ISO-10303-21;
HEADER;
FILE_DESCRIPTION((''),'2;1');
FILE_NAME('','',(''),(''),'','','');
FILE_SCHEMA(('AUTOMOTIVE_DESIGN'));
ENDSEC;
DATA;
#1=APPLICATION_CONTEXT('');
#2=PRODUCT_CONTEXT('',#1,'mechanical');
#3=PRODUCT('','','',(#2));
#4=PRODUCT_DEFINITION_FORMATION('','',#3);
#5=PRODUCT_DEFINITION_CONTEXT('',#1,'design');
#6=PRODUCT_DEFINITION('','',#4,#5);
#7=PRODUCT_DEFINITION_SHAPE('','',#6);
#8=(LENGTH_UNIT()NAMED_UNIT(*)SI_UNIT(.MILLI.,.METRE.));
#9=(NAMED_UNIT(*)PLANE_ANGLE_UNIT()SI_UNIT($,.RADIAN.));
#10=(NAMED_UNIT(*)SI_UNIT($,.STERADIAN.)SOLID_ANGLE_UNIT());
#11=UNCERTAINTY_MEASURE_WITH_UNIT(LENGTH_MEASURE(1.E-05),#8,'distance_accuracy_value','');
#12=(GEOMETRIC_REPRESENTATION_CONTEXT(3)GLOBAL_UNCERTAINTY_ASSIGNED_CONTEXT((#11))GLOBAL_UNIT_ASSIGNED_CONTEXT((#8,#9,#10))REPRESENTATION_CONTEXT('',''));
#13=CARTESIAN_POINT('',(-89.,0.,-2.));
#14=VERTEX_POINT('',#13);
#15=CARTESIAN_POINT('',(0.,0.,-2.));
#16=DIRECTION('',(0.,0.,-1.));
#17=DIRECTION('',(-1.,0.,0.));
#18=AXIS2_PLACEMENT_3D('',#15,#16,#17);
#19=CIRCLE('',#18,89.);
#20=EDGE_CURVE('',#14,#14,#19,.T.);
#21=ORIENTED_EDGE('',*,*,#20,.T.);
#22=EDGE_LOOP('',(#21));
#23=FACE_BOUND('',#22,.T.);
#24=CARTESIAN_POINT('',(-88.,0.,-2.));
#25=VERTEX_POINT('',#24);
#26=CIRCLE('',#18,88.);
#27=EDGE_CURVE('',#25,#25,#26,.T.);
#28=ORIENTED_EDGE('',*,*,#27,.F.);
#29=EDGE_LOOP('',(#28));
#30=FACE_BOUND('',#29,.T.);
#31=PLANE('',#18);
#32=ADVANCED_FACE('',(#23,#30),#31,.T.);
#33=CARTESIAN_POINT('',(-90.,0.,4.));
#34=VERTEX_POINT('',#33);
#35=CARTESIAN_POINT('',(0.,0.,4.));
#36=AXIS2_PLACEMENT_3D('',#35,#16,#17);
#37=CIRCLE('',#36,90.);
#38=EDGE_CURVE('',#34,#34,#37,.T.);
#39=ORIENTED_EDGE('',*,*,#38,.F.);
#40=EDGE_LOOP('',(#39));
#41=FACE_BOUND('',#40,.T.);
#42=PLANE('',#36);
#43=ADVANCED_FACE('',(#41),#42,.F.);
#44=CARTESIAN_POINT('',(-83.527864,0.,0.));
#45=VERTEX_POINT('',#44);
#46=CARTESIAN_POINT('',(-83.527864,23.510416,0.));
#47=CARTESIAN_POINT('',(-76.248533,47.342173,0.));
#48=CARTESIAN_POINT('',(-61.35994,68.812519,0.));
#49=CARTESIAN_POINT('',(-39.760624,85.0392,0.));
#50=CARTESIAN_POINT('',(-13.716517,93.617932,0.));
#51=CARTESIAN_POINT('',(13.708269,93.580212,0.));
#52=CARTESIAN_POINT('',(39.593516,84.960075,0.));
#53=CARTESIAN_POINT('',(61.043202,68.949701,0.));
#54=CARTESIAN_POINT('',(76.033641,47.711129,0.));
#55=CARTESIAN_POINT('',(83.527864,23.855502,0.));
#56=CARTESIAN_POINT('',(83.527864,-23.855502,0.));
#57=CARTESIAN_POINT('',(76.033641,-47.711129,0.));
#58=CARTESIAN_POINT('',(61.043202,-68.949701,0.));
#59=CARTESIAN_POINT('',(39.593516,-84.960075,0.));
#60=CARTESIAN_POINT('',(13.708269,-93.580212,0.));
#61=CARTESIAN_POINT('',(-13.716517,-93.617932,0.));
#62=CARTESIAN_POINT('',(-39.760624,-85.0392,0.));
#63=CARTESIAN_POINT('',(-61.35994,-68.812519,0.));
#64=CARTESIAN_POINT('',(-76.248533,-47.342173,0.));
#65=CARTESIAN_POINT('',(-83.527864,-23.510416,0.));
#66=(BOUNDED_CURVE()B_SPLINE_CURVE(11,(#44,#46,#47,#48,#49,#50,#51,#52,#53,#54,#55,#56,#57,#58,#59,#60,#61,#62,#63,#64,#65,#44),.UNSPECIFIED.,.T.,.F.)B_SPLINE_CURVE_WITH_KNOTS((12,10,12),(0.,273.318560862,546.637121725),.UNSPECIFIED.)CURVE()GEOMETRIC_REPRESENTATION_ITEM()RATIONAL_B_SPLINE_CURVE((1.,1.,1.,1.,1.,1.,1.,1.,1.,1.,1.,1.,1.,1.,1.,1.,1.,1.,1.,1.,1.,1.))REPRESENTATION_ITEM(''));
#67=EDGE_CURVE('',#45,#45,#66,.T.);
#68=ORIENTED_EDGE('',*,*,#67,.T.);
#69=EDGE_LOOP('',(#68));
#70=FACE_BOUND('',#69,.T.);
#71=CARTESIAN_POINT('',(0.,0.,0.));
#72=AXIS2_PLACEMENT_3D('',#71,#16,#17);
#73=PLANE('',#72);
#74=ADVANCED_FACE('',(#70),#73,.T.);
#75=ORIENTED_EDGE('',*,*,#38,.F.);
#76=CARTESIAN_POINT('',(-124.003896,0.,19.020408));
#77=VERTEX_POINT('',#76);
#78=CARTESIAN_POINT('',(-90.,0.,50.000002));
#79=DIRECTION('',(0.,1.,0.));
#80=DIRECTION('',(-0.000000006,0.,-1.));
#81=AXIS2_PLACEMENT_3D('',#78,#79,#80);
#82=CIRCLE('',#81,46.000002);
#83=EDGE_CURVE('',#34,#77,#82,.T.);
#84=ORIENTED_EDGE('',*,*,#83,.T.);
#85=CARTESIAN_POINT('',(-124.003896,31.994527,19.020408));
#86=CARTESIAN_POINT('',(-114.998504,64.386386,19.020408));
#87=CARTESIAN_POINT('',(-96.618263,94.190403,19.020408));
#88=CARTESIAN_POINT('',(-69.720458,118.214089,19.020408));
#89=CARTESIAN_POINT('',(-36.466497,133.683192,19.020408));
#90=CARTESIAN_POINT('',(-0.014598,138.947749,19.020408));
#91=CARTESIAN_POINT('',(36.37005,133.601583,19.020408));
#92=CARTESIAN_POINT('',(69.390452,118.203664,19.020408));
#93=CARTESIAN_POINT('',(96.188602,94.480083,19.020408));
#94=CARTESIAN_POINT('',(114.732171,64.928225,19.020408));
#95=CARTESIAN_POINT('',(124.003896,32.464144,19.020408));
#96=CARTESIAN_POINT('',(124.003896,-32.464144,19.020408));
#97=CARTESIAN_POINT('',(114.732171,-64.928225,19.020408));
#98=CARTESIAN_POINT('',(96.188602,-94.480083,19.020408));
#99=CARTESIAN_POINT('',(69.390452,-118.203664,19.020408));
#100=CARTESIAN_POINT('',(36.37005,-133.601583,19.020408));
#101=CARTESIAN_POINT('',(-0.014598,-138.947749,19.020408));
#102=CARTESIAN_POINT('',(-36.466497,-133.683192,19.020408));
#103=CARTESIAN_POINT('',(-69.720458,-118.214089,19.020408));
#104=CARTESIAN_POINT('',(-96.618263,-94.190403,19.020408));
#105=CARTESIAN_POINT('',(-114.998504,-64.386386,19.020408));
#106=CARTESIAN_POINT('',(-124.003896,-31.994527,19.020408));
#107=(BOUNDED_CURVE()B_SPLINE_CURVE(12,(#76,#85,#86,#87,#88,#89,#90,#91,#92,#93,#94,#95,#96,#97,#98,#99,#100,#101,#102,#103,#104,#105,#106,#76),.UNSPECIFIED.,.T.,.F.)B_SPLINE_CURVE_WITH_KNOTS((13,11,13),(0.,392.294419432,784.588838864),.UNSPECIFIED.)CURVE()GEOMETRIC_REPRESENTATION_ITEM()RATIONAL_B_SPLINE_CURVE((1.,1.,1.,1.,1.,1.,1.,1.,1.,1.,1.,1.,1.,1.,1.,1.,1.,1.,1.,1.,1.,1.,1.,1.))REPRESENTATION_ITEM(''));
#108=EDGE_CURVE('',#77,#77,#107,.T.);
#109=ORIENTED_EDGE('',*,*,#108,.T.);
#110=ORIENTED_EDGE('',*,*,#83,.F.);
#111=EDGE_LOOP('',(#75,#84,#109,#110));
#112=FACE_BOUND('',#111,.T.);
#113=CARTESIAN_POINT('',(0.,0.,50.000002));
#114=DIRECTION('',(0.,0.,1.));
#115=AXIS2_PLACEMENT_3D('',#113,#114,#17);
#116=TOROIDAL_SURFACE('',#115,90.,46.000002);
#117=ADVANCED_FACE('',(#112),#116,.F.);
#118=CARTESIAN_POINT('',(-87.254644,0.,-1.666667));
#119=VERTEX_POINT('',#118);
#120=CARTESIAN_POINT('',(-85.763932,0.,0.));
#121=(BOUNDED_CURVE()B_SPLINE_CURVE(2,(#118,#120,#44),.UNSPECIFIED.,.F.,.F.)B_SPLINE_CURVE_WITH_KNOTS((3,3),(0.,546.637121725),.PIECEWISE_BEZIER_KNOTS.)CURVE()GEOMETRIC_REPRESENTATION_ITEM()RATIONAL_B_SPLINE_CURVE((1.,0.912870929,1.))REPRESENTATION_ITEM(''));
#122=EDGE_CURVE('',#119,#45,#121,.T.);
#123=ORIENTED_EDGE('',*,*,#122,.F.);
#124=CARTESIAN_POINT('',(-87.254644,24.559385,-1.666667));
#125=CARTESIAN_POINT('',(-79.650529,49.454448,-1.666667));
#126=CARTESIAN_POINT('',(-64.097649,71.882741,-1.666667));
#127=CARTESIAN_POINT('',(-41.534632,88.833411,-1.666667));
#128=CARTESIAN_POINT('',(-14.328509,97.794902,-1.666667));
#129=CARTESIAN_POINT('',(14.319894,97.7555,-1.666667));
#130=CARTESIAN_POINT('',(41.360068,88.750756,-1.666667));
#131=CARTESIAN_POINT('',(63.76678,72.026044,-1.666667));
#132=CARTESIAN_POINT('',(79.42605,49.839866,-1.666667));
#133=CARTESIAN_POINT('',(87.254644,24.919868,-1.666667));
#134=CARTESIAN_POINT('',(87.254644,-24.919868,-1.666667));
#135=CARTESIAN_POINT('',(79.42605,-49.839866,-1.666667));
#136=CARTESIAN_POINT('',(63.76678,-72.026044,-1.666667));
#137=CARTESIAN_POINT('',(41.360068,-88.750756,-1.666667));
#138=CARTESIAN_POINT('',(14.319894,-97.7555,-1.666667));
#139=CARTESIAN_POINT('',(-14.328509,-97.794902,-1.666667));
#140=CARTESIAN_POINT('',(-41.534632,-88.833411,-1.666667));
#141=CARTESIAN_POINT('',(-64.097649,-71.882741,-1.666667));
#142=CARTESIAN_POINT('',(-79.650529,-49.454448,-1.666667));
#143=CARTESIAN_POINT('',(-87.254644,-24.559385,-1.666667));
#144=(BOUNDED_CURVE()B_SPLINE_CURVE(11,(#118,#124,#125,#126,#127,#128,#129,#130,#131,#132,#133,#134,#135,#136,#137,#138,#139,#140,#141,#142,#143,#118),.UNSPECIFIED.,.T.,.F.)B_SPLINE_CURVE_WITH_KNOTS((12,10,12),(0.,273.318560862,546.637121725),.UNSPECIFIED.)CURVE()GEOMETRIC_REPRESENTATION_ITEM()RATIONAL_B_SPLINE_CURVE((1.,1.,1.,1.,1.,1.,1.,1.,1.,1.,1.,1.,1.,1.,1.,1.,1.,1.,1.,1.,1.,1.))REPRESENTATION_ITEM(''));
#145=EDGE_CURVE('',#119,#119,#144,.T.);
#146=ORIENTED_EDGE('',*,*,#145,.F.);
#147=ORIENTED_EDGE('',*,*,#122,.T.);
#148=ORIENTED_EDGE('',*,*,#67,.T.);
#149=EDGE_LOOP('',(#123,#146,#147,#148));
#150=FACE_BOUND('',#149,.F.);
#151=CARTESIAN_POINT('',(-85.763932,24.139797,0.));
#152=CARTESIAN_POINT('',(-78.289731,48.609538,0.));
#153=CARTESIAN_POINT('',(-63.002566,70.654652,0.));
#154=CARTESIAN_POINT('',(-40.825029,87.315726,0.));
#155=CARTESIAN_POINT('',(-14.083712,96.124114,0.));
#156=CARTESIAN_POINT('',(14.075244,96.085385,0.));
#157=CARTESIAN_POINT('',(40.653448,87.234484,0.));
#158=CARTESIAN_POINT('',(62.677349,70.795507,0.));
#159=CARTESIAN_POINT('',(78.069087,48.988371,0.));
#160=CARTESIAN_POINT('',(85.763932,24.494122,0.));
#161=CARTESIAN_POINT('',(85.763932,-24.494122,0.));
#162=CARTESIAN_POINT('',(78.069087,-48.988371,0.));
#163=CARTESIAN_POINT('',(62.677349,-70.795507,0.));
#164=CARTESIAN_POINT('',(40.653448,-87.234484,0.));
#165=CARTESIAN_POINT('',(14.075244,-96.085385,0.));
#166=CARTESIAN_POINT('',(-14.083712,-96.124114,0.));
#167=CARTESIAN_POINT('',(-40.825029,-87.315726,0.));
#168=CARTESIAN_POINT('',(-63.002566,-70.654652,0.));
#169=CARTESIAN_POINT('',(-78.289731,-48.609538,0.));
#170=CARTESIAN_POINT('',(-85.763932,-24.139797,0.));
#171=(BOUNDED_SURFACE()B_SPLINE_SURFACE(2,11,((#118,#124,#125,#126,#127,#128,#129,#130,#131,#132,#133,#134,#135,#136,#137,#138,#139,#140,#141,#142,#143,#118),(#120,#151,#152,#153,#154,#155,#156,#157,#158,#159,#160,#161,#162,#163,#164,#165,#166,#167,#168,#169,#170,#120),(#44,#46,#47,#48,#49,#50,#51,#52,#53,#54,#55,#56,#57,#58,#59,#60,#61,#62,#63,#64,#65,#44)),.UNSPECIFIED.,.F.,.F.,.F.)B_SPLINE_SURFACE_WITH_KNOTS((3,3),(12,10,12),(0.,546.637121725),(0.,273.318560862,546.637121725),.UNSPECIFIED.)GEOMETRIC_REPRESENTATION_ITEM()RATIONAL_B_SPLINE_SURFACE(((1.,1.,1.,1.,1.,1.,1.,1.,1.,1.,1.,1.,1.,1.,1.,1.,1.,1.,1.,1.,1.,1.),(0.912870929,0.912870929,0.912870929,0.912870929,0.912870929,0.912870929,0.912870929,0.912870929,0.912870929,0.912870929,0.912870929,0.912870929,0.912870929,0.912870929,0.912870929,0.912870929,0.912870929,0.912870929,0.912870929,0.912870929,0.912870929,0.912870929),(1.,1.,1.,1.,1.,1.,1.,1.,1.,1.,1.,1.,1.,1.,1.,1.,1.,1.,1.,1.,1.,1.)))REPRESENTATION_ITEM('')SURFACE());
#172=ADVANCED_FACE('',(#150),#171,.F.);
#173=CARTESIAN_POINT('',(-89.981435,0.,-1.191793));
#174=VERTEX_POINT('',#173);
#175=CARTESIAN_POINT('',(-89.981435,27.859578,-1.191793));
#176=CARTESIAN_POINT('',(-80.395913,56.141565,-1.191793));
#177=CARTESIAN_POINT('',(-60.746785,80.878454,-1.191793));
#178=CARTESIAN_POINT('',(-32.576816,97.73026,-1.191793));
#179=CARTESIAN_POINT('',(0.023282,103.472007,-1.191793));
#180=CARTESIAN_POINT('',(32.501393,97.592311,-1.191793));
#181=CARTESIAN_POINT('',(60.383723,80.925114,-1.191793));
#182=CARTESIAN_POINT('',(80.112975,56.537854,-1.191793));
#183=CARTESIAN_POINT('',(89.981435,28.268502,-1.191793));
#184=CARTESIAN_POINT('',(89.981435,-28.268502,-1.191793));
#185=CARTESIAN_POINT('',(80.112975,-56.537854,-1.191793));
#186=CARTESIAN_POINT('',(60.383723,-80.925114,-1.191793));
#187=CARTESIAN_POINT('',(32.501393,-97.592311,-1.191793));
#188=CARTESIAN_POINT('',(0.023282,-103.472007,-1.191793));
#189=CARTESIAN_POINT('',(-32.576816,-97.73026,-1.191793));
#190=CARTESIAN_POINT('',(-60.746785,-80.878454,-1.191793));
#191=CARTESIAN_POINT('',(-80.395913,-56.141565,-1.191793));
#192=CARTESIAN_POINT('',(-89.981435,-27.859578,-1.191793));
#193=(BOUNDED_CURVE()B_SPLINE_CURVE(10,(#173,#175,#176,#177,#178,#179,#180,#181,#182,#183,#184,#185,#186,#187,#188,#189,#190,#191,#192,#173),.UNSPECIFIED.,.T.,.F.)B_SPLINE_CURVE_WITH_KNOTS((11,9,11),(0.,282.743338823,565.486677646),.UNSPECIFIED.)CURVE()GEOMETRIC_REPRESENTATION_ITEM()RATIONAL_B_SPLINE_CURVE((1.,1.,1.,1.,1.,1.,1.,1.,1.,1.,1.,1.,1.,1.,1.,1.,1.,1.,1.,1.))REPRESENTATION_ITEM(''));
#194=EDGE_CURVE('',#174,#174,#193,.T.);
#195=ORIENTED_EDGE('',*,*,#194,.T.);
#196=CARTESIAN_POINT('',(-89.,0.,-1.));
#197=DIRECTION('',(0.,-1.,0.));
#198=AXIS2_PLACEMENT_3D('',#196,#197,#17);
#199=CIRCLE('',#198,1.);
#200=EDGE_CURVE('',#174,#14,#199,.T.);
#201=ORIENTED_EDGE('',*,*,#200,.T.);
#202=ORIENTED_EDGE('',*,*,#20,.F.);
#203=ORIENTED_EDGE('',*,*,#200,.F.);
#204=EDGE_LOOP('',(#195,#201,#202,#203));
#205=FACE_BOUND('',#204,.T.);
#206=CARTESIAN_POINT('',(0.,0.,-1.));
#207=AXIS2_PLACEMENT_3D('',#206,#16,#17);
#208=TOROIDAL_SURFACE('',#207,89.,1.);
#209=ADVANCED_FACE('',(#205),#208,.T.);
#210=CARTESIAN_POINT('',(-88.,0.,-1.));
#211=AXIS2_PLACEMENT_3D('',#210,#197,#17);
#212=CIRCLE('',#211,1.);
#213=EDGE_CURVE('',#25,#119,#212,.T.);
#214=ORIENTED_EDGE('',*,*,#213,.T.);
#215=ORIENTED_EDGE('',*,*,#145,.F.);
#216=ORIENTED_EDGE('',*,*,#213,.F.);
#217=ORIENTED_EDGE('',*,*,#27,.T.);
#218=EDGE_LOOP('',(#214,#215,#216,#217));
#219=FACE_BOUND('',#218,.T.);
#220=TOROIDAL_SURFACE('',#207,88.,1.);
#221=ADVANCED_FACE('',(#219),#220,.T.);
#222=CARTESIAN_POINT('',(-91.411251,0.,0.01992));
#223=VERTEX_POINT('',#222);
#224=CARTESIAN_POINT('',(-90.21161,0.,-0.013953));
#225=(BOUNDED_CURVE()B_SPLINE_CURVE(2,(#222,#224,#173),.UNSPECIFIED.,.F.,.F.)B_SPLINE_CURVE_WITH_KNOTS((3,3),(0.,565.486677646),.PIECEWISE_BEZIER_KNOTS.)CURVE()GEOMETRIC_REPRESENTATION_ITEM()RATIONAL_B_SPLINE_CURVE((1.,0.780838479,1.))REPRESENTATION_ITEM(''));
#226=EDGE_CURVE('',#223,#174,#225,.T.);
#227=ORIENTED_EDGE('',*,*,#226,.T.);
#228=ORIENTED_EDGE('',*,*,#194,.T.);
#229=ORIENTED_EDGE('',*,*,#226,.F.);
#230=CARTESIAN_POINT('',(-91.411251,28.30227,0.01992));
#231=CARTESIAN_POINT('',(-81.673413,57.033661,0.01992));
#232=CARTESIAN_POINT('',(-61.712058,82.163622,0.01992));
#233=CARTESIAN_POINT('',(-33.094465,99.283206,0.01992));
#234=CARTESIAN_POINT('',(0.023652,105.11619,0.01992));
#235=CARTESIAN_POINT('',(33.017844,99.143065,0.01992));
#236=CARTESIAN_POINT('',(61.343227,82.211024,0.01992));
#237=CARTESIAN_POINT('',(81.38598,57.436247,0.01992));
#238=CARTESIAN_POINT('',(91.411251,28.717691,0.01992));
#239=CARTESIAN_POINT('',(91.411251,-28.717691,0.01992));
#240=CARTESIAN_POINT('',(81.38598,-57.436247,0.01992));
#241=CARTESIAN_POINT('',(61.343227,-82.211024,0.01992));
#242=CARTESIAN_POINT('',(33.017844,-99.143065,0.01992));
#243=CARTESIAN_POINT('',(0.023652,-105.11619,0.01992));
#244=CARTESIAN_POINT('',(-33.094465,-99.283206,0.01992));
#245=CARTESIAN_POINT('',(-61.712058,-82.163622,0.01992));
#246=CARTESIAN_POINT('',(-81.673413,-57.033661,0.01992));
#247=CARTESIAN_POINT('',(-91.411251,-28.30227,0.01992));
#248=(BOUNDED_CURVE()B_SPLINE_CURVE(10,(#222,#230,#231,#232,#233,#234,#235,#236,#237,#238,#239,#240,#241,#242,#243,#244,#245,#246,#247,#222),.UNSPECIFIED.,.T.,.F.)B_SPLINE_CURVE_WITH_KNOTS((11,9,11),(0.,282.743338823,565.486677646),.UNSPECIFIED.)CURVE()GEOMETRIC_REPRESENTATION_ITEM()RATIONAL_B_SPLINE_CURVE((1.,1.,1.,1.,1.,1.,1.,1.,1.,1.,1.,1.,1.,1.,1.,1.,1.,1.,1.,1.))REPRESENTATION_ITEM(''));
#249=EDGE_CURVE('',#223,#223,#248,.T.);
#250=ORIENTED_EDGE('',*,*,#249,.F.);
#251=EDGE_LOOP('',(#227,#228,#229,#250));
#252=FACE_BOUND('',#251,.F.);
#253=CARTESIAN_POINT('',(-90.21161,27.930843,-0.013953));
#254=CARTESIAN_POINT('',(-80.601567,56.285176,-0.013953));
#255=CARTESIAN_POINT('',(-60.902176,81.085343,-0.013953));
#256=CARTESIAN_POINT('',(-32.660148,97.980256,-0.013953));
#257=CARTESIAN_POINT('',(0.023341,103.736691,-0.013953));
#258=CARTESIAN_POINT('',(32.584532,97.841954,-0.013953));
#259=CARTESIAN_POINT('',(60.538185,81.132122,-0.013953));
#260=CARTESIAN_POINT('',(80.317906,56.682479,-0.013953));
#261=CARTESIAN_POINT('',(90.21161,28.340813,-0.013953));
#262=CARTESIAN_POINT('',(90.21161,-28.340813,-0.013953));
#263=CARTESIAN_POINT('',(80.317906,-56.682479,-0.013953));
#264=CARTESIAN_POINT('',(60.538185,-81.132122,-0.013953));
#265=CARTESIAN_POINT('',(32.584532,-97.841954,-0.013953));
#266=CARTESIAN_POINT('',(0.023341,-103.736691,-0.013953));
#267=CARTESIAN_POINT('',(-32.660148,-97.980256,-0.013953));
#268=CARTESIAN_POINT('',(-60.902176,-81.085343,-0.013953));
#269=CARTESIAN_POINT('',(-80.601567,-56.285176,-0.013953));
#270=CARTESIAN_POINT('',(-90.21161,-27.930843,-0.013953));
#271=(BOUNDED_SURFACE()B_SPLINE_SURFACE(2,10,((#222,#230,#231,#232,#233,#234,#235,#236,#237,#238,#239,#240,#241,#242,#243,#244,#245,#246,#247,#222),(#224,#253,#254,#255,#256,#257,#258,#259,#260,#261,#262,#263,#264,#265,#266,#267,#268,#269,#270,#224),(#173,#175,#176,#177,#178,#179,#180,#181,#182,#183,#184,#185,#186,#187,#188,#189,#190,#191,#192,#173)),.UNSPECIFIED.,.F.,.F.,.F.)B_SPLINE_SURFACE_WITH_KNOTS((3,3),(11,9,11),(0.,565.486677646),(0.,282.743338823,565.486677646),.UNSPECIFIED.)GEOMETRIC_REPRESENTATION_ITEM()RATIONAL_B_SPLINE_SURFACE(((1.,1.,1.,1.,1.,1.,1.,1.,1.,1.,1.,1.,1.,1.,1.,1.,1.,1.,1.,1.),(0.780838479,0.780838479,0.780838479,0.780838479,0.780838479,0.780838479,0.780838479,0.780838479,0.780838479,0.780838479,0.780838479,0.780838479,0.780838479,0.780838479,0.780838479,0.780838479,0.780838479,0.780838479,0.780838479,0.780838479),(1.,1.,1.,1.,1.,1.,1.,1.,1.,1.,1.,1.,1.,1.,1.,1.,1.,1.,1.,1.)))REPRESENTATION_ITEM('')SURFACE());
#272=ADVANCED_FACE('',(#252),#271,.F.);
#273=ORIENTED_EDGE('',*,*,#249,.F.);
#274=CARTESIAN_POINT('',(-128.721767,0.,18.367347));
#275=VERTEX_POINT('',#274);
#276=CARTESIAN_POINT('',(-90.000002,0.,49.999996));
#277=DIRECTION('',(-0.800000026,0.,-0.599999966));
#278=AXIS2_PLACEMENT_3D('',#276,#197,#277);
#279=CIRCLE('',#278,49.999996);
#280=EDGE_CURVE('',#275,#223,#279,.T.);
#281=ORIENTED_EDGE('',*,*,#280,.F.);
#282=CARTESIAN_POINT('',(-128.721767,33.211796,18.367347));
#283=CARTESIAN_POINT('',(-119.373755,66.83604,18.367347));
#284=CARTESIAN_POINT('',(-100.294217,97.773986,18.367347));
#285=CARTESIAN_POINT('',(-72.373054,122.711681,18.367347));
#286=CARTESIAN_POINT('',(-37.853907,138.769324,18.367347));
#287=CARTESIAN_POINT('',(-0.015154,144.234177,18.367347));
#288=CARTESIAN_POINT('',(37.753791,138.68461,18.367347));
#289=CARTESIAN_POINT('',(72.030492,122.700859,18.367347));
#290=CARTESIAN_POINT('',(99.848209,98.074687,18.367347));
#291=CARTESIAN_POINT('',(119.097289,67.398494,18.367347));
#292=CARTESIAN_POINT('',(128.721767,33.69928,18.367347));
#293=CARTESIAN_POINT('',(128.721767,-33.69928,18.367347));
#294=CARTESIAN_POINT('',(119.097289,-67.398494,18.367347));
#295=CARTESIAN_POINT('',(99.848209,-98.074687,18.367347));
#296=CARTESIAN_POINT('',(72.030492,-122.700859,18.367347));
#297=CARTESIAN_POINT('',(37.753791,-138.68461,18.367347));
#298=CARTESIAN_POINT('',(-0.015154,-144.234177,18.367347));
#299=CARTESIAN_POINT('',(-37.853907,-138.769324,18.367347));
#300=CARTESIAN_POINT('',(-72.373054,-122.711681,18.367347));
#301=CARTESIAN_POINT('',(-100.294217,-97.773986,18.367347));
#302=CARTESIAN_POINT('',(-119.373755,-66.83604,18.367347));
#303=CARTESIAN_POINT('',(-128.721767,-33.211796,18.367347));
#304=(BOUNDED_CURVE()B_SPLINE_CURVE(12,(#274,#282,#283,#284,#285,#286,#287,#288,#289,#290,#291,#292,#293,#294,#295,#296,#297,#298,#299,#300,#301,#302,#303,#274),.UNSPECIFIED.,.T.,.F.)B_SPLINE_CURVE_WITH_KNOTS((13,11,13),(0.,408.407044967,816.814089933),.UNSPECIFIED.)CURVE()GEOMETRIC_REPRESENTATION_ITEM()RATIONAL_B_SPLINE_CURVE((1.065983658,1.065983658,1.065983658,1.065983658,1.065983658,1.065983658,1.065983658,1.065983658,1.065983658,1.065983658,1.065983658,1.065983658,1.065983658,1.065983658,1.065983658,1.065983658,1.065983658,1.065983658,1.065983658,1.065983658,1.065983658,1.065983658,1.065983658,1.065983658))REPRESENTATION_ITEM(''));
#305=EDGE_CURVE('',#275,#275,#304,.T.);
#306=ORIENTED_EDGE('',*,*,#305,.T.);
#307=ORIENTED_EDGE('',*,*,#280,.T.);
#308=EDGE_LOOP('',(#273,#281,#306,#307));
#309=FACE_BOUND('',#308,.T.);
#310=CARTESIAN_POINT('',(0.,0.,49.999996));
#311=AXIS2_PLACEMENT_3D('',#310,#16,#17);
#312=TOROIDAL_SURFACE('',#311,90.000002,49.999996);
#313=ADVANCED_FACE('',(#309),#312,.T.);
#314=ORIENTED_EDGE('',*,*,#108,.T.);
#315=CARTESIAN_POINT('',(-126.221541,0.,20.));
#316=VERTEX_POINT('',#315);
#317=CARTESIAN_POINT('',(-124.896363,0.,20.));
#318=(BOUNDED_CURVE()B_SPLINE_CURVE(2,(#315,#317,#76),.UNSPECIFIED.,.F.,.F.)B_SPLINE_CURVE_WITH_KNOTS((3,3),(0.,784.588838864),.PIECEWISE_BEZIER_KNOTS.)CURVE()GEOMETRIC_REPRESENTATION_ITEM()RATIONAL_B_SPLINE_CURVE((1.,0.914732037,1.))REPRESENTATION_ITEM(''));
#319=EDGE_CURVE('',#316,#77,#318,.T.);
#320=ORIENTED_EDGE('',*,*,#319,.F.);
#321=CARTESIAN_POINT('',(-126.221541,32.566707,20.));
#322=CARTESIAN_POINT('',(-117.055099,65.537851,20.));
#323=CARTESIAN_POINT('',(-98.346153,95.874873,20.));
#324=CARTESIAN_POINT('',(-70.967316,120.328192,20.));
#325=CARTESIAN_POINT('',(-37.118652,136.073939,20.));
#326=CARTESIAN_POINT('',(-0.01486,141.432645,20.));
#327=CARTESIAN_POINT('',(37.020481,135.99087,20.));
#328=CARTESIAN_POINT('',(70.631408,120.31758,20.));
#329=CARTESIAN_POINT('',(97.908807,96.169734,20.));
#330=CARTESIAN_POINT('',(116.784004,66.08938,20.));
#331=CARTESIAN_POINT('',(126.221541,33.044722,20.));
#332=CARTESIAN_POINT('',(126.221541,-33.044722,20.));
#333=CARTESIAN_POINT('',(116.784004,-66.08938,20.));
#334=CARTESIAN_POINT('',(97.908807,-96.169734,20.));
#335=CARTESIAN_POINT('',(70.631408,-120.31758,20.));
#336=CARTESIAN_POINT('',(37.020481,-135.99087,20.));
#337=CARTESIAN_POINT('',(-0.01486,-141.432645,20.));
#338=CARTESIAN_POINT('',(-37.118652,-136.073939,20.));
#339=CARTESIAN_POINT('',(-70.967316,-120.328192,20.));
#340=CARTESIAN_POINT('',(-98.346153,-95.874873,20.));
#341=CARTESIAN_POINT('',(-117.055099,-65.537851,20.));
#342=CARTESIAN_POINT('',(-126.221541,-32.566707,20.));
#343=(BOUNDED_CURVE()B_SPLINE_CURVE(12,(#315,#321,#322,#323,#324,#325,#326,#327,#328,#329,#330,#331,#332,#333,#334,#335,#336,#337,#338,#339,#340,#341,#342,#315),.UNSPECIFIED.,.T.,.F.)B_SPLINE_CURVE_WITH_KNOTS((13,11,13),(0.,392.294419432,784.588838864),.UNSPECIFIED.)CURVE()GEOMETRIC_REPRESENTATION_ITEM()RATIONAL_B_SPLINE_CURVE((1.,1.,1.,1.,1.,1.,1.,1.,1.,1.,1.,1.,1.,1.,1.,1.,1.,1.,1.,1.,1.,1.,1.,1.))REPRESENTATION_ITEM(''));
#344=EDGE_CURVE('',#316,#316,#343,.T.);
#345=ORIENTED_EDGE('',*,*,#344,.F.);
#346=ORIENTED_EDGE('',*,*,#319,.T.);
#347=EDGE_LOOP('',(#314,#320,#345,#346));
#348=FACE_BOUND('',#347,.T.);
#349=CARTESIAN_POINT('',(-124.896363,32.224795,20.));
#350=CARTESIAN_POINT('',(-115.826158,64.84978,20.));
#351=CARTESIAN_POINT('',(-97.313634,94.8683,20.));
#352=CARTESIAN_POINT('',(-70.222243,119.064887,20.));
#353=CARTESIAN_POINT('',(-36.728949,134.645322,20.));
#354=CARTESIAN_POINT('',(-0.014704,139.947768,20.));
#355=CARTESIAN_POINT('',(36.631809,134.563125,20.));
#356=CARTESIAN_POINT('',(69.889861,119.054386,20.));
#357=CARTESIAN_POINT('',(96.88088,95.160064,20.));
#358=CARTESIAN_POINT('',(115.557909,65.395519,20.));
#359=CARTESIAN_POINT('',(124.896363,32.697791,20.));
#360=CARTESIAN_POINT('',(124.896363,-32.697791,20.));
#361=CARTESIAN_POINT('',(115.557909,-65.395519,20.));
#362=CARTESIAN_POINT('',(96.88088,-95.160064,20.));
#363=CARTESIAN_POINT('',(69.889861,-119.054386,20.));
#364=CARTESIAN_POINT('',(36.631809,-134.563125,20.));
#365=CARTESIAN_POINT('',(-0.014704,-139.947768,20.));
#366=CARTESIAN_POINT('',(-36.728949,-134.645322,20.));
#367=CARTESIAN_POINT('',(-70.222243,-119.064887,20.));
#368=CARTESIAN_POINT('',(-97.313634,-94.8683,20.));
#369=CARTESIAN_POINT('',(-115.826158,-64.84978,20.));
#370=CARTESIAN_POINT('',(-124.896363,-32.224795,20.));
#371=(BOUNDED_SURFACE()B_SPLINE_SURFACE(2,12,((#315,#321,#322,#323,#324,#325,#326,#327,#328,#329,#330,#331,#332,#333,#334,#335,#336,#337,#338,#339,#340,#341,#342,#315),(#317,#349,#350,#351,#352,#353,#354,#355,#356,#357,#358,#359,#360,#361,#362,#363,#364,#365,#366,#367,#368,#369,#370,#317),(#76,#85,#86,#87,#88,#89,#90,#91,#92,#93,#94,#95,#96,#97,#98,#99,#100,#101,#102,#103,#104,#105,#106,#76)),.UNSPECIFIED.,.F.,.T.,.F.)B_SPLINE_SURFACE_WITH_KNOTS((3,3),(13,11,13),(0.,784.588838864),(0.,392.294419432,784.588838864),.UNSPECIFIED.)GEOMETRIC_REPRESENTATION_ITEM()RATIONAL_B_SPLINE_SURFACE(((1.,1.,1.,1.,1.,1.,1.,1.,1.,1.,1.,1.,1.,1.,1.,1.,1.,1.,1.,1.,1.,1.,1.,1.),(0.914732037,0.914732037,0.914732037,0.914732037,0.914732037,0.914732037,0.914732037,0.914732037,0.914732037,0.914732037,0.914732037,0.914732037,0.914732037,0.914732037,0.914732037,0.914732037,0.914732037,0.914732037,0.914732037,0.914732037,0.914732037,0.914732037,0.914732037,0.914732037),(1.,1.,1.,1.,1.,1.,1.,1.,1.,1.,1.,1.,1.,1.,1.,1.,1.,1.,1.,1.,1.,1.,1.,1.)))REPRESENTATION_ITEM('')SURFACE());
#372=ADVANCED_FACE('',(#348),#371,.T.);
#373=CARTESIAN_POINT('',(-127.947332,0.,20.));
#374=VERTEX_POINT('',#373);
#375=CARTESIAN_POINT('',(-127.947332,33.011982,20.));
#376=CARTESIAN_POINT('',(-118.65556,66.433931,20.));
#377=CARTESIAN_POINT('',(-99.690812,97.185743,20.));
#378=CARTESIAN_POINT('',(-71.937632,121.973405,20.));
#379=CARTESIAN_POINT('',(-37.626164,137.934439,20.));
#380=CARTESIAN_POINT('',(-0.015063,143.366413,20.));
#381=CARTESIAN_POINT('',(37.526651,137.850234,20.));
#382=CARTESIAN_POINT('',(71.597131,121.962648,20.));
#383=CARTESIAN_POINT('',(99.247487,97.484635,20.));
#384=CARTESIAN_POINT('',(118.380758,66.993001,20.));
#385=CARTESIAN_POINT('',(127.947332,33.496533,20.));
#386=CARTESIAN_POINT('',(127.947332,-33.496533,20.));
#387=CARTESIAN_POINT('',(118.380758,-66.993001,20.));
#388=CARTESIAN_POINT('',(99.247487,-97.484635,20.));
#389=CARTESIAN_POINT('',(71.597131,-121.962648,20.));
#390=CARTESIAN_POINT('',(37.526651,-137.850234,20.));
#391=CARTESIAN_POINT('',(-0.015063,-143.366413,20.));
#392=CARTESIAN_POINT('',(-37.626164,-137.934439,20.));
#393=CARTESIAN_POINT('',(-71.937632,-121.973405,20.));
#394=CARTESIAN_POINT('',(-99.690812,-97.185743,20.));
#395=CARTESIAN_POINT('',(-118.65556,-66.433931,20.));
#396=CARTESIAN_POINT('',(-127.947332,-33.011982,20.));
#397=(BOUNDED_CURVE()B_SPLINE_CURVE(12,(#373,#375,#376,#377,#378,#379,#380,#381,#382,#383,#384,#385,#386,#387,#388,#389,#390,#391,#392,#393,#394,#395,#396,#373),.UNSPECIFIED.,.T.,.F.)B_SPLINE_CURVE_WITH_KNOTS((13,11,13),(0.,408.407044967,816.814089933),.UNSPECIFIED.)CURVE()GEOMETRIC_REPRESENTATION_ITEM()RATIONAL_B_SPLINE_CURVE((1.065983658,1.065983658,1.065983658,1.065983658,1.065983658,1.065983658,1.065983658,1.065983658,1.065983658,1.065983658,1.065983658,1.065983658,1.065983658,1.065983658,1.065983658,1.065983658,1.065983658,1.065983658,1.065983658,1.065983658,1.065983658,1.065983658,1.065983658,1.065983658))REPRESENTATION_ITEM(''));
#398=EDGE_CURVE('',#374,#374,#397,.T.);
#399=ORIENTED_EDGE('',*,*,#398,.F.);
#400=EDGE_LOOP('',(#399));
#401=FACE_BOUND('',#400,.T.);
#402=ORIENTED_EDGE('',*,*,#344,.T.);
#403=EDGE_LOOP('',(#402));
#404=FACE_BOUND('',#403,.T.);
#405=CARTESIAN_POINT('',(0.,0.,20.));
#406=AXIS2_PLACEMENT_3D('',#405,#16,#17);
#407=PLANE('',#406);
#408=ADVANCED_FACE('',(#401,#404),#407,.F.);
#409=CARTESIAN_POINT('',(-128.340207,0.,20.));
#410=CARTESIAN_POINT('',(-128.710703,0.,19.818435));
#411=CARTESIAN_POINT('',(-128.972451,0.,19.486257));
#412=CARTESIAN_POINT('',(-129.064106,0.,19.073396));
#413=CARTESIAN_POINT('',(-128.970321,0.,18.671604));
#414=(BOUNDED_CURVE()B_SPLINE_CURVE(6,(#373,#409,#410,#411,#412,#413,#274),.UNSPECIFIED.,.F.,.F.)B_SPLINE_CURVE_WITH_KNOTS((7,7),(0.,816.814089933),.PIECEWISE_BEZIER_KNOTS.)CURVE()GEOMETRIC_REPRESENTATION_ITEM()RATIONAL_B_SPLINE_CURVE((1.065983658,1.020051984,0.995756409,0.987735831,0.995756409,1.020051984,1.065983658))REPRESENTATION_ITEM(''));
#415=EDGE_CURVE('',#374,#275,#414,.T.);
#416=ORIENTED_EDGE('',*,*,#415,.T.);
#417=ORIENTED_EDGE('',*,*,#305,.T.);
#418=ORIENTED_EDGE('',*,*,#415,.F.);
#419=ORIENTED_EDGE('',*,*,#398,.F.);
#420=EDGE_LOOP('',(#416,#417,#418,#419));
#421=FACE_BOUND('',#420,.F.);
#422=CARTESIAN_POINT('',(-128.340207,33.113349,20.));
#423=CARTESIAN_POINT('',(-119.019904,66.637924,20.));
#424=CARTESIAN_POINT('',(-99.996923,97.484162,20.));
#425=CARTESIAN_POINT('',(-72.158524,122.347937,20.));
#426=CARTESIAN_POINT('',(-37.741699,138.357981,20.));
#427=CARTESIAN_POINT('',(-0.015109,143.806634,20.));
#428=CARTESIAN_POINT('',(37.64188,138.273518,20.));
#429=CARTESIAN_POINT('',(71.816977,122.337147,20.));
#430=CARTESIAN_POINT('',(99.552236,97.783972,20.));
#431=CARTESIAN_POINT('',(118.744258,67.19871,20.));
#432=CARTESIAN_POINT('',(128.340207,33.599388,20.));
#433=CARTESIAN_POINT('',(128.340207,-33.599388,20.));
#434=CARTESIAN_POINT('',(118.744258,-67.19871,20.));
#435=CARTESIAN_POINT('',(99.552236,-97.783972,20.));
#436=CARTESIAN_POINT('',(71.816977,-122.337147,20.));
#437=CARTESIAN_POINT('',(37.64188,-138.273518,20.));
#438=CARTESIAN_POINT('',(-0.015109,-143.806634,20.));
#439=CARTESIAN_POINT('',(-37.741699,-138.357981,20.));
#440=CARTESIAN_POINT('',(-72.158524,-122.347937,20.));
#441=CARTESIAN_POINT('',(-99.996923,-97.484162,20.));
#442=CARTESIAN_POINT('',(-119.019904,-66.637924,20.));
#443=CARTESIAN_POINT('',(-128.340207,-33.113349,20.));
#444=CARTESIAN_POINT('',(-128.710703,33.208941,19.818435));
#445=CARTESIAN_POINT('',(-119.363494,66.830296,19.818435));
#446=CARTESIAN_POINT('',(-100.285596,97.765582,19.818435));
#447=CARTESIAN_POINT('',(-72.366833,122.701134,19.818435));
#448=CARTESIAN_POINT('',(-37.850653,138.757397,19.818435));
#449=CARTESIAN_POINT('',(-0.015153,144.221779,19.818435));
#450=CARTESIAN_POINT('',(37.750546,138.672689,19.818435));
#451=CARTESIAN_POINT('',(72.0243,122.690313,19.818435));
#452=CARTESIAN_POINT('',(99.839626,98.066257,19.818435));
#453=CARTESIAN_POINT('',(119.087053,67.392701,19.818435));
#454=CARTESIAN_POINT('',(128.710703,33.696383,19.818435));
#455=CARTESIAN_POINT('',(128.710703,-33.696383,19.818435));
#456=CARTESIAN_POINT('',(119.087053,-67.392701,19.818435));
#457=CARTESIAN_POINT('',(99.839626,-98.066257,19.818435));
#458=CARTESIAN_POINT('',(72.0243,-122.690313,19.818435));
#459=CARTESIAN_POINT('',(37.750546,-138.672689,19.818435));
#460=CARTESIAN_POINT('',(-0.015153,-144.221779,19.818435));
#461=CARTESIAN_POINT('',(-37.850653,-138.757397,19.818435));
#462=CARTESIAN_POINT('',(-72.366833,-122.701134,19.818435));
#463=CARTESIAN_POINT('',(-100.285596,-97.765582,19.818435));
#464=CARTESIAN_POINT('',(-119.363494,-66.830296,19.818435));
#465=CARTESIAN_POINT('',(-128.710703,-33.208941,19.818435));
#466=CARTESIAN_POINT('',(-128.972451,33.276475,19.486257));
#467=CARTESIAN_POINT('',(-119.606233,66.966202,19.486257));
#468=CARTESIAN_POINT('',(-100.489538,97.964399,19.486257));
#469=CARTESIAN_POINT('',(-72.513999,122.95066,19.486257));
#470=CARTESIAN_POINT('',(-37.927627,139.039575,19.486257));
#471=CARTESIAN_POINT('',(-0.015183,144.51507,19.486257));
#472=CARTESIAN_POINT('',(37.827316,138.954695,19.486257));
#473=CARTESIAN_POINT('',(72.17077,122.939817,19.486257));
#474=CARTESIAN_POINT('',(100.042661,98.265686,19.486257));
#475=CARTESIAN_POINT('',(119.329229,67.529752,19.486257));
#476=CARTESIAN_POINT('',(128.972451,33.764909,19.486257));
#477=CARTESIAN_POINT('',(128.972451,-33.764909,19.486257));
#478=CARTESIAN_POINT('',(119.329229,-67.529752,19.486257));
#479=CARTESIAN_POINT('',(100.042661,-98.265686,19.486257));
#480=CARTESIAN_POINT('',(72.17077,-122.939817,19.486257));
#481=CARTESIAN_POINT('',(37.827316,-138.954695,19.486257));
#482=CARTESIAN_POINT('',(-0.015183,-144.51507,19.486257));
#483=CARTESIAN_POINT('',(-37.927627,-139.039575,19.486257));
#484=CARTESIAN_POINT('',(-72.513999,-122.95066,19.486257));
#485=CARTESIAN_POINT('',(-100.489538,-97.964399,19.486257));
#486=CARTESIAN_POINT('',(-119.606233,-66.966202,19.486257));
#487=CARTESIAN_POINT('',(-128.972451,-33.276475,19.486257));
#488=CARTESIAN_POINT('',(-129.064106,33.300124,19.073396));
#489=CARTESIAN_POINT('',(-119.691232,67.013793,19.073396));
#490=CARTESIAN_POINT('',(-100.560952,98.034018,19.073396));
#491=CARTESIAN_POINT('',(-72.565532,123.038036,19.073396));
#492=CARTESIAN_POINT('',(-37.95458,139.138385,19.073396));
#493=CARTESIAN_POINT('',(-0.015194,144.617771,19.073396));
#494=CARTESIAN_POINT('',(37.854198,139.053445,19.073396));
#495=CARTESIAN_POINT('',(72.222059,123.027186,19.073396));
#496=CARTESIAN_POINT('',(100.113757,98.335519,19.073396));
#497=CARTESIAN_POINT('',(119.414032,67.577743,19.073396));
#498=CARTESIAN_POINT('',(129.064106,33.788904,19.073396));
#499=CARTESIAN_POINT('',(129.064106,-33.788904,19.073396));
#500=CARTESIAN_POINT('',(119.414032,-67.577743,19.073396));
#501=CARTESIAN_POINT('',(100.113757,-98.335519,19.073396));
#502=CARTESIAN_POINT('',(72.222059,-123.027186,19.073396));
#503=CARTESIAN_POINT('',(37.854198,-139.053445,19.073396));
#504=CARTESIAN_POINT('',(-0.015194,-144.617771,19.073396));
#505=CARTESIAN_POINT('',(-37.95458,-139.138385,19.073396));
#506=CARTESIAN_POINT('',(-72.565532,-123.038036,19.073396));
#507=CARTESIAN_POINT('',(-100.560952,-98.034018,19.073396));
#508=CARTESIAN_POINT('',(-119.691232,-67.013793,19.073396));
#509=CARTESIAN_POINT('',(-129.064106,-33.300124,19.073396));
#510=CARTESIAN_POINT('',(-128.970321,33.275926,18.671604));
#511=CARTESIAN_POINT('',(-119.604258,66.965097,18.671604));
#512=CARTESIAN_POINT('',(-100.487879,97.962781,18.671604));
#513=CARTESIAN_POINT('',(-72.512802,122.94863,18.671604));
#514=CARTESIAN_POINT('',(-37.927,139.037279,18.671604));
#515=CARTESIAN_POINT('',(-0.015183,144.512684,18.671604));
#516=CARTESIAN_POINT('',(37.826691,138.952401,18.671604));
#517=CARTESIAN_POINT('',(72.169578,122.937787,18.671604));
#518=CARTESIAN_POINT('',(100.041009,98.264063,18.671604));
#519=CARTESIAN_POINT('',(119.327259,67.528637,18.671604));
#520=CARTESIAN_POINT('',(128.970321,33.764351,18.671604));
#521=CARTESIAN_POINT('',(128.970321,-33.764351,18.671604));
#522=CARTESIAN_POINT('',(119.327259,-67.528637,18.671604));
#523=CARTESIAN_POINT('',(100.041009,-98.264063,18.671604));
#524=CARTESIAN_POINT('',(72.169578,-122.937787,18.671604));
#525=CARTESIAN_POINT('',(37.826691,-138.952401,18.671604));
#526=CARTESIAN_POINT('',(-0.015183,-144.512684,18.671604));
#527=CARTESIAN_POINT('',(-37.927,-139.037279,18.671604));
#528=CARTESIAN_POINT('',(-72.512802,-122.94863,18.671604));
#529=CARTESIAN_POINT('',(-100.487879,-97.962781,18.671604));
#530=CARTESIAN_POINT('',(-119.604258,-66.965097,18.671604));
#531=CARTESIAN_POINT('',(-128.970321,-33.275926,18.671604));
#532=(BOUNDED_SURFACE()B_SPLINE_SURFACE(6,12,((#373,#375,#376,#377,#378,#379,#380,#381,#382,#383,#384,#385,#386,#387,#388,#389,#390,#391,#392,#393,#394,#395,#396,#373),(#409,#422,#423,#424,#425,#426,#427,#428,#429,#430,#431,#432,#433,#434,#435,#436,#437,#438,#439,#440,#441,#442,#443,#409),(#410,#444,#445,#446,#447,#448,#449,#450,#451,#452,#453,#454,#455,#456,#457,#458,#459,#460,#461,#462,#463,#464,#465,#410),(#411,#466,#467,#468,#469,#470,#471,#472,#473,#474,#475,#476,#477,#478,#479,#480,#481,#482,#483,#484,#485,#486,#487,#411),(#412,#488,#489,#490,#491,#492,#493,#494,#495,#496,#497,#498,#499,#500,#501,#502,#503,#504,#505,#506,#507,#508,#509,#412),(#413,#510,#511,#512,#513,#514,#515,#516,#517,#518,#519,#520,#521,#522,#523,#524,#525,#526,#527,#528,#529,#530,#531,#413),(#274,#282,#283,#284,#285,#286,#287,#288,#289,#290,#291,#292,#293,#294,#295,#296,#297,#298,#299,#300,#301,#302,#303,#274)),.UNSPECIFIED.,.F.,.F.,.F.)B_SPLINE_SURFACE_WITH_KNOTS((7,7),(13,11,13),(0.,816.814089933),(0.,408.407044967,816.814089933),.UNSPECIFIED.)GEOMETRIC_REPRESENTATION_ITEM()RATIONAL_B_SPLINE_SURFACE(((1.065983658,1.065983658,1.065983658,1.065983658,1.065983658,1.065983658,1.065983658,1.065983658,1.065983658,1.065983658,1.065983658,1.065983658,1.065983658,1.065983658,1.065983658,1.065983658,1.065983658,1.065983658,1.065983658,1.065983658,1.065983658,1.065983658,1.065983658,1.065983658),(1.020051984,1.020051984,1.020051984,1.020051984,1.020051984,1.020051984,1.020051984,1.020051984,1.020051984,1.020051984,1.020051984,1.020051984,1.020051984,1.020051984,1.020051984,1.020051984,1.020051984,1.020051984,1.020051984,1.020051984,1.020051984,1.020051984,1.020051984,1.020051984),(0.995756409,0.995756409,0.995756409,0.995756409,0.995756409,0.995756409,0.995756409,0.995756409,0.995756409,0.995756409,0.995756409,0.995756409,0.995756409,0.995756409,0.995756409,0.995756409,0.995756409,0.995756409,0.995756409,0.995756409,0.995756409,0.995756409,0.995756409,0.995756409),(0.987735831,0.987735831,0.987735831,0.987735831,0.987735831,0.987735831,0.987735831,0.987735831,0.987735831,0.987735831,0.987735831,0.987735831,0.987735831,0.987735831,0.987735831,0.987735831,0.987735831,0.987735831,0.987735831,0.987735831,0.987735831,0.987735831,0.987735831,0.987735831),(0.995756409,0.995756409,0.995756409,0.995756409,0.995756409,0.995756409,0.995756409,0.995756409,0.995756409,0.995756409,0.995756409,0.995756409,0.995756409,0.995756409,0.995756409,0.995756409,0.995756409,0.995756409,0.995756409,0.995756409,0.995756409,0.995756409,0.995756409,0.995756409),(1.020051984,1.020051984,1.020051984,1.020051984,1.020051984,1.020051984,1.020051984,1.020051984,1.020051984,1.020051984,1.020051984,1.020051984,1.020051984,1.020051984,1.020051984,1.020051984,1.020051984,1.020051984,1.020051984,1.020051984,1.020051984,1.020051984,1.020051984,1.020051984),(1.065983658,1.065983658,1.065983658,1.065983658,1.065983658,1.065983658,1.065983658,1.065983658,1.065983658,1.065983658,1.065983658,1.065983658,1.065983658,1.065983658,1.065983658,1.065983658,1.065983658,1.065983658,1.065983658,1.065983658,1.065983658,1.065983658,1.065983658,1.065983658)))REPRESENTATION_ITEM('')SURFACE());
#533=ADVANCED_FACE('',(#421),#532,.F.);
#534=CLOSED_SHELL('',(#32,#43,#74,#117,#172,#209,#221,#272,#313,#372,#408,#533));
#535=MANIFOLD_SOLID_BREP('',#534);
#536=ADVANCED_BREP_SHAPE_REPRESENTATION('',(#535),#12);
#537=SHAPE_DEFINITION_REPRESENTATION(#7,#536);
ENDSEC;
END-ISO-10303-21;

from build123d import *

# Parameters (mm, degrees)
F0_W = 3
F0_H = 2
F2_R = 1
F3_R = 3
F4_R = 1.5
F5_R = 5


with BuildPart() as f1:
    # F0 (on Front) → F1 (revolve)
    with BuildSketch(Plane.XZ):
        with BuildLine():
            Line((-87, 0), (0, 0))
            Line((0, 0), (0, 4))
            Line((0, 4), (-90, 4))
            ThreePointArc((-90, 4), (-109.183326, 8.19091), (-124.871192, 20))
            Line((-124.871192, 20), (-130, 20))
            ThreePointArc((-130, 20), (-112.36068, 5.27864), (-90, 0))
            Line((-90, 0), (-87, 0))
        make_face()
        with Locations((-88.5, -1)):
            Rectangle(F0_W, F0_H)
    revolve(axis=Axis((0, 0, 2), (0, 0, -1)))

    # F2
    f2_edges = [f1.edges().sort_by_distance(p)[0] for p in [
        (130, 0, 20),
        (90, 0, -2),
        (87, 0, -2),
    ]]
    fillet(f2_edges, radius=F2_R)

    # F3
    f3_edges = [f1.edges().sort_by_distance(p)[0] for p in [
        (124.871192, 0, 20),
    ]]
    fillet(f3_edges, radius=F3_R)

    # F4
    f4_edges = [f1.edges().sort_by_distance(p)[0] for p in [
        (90, 0, 0),
    ]]
    fillet(f4_edges, radius=F4_R)

    # F5
    f5_edges = [f1.edges().sort_by_distance(p)[0] for p in [
        (87, 0, 0),
    ]]
    fillet(f5_edges, radius=F5_R)


solid = f1.part
